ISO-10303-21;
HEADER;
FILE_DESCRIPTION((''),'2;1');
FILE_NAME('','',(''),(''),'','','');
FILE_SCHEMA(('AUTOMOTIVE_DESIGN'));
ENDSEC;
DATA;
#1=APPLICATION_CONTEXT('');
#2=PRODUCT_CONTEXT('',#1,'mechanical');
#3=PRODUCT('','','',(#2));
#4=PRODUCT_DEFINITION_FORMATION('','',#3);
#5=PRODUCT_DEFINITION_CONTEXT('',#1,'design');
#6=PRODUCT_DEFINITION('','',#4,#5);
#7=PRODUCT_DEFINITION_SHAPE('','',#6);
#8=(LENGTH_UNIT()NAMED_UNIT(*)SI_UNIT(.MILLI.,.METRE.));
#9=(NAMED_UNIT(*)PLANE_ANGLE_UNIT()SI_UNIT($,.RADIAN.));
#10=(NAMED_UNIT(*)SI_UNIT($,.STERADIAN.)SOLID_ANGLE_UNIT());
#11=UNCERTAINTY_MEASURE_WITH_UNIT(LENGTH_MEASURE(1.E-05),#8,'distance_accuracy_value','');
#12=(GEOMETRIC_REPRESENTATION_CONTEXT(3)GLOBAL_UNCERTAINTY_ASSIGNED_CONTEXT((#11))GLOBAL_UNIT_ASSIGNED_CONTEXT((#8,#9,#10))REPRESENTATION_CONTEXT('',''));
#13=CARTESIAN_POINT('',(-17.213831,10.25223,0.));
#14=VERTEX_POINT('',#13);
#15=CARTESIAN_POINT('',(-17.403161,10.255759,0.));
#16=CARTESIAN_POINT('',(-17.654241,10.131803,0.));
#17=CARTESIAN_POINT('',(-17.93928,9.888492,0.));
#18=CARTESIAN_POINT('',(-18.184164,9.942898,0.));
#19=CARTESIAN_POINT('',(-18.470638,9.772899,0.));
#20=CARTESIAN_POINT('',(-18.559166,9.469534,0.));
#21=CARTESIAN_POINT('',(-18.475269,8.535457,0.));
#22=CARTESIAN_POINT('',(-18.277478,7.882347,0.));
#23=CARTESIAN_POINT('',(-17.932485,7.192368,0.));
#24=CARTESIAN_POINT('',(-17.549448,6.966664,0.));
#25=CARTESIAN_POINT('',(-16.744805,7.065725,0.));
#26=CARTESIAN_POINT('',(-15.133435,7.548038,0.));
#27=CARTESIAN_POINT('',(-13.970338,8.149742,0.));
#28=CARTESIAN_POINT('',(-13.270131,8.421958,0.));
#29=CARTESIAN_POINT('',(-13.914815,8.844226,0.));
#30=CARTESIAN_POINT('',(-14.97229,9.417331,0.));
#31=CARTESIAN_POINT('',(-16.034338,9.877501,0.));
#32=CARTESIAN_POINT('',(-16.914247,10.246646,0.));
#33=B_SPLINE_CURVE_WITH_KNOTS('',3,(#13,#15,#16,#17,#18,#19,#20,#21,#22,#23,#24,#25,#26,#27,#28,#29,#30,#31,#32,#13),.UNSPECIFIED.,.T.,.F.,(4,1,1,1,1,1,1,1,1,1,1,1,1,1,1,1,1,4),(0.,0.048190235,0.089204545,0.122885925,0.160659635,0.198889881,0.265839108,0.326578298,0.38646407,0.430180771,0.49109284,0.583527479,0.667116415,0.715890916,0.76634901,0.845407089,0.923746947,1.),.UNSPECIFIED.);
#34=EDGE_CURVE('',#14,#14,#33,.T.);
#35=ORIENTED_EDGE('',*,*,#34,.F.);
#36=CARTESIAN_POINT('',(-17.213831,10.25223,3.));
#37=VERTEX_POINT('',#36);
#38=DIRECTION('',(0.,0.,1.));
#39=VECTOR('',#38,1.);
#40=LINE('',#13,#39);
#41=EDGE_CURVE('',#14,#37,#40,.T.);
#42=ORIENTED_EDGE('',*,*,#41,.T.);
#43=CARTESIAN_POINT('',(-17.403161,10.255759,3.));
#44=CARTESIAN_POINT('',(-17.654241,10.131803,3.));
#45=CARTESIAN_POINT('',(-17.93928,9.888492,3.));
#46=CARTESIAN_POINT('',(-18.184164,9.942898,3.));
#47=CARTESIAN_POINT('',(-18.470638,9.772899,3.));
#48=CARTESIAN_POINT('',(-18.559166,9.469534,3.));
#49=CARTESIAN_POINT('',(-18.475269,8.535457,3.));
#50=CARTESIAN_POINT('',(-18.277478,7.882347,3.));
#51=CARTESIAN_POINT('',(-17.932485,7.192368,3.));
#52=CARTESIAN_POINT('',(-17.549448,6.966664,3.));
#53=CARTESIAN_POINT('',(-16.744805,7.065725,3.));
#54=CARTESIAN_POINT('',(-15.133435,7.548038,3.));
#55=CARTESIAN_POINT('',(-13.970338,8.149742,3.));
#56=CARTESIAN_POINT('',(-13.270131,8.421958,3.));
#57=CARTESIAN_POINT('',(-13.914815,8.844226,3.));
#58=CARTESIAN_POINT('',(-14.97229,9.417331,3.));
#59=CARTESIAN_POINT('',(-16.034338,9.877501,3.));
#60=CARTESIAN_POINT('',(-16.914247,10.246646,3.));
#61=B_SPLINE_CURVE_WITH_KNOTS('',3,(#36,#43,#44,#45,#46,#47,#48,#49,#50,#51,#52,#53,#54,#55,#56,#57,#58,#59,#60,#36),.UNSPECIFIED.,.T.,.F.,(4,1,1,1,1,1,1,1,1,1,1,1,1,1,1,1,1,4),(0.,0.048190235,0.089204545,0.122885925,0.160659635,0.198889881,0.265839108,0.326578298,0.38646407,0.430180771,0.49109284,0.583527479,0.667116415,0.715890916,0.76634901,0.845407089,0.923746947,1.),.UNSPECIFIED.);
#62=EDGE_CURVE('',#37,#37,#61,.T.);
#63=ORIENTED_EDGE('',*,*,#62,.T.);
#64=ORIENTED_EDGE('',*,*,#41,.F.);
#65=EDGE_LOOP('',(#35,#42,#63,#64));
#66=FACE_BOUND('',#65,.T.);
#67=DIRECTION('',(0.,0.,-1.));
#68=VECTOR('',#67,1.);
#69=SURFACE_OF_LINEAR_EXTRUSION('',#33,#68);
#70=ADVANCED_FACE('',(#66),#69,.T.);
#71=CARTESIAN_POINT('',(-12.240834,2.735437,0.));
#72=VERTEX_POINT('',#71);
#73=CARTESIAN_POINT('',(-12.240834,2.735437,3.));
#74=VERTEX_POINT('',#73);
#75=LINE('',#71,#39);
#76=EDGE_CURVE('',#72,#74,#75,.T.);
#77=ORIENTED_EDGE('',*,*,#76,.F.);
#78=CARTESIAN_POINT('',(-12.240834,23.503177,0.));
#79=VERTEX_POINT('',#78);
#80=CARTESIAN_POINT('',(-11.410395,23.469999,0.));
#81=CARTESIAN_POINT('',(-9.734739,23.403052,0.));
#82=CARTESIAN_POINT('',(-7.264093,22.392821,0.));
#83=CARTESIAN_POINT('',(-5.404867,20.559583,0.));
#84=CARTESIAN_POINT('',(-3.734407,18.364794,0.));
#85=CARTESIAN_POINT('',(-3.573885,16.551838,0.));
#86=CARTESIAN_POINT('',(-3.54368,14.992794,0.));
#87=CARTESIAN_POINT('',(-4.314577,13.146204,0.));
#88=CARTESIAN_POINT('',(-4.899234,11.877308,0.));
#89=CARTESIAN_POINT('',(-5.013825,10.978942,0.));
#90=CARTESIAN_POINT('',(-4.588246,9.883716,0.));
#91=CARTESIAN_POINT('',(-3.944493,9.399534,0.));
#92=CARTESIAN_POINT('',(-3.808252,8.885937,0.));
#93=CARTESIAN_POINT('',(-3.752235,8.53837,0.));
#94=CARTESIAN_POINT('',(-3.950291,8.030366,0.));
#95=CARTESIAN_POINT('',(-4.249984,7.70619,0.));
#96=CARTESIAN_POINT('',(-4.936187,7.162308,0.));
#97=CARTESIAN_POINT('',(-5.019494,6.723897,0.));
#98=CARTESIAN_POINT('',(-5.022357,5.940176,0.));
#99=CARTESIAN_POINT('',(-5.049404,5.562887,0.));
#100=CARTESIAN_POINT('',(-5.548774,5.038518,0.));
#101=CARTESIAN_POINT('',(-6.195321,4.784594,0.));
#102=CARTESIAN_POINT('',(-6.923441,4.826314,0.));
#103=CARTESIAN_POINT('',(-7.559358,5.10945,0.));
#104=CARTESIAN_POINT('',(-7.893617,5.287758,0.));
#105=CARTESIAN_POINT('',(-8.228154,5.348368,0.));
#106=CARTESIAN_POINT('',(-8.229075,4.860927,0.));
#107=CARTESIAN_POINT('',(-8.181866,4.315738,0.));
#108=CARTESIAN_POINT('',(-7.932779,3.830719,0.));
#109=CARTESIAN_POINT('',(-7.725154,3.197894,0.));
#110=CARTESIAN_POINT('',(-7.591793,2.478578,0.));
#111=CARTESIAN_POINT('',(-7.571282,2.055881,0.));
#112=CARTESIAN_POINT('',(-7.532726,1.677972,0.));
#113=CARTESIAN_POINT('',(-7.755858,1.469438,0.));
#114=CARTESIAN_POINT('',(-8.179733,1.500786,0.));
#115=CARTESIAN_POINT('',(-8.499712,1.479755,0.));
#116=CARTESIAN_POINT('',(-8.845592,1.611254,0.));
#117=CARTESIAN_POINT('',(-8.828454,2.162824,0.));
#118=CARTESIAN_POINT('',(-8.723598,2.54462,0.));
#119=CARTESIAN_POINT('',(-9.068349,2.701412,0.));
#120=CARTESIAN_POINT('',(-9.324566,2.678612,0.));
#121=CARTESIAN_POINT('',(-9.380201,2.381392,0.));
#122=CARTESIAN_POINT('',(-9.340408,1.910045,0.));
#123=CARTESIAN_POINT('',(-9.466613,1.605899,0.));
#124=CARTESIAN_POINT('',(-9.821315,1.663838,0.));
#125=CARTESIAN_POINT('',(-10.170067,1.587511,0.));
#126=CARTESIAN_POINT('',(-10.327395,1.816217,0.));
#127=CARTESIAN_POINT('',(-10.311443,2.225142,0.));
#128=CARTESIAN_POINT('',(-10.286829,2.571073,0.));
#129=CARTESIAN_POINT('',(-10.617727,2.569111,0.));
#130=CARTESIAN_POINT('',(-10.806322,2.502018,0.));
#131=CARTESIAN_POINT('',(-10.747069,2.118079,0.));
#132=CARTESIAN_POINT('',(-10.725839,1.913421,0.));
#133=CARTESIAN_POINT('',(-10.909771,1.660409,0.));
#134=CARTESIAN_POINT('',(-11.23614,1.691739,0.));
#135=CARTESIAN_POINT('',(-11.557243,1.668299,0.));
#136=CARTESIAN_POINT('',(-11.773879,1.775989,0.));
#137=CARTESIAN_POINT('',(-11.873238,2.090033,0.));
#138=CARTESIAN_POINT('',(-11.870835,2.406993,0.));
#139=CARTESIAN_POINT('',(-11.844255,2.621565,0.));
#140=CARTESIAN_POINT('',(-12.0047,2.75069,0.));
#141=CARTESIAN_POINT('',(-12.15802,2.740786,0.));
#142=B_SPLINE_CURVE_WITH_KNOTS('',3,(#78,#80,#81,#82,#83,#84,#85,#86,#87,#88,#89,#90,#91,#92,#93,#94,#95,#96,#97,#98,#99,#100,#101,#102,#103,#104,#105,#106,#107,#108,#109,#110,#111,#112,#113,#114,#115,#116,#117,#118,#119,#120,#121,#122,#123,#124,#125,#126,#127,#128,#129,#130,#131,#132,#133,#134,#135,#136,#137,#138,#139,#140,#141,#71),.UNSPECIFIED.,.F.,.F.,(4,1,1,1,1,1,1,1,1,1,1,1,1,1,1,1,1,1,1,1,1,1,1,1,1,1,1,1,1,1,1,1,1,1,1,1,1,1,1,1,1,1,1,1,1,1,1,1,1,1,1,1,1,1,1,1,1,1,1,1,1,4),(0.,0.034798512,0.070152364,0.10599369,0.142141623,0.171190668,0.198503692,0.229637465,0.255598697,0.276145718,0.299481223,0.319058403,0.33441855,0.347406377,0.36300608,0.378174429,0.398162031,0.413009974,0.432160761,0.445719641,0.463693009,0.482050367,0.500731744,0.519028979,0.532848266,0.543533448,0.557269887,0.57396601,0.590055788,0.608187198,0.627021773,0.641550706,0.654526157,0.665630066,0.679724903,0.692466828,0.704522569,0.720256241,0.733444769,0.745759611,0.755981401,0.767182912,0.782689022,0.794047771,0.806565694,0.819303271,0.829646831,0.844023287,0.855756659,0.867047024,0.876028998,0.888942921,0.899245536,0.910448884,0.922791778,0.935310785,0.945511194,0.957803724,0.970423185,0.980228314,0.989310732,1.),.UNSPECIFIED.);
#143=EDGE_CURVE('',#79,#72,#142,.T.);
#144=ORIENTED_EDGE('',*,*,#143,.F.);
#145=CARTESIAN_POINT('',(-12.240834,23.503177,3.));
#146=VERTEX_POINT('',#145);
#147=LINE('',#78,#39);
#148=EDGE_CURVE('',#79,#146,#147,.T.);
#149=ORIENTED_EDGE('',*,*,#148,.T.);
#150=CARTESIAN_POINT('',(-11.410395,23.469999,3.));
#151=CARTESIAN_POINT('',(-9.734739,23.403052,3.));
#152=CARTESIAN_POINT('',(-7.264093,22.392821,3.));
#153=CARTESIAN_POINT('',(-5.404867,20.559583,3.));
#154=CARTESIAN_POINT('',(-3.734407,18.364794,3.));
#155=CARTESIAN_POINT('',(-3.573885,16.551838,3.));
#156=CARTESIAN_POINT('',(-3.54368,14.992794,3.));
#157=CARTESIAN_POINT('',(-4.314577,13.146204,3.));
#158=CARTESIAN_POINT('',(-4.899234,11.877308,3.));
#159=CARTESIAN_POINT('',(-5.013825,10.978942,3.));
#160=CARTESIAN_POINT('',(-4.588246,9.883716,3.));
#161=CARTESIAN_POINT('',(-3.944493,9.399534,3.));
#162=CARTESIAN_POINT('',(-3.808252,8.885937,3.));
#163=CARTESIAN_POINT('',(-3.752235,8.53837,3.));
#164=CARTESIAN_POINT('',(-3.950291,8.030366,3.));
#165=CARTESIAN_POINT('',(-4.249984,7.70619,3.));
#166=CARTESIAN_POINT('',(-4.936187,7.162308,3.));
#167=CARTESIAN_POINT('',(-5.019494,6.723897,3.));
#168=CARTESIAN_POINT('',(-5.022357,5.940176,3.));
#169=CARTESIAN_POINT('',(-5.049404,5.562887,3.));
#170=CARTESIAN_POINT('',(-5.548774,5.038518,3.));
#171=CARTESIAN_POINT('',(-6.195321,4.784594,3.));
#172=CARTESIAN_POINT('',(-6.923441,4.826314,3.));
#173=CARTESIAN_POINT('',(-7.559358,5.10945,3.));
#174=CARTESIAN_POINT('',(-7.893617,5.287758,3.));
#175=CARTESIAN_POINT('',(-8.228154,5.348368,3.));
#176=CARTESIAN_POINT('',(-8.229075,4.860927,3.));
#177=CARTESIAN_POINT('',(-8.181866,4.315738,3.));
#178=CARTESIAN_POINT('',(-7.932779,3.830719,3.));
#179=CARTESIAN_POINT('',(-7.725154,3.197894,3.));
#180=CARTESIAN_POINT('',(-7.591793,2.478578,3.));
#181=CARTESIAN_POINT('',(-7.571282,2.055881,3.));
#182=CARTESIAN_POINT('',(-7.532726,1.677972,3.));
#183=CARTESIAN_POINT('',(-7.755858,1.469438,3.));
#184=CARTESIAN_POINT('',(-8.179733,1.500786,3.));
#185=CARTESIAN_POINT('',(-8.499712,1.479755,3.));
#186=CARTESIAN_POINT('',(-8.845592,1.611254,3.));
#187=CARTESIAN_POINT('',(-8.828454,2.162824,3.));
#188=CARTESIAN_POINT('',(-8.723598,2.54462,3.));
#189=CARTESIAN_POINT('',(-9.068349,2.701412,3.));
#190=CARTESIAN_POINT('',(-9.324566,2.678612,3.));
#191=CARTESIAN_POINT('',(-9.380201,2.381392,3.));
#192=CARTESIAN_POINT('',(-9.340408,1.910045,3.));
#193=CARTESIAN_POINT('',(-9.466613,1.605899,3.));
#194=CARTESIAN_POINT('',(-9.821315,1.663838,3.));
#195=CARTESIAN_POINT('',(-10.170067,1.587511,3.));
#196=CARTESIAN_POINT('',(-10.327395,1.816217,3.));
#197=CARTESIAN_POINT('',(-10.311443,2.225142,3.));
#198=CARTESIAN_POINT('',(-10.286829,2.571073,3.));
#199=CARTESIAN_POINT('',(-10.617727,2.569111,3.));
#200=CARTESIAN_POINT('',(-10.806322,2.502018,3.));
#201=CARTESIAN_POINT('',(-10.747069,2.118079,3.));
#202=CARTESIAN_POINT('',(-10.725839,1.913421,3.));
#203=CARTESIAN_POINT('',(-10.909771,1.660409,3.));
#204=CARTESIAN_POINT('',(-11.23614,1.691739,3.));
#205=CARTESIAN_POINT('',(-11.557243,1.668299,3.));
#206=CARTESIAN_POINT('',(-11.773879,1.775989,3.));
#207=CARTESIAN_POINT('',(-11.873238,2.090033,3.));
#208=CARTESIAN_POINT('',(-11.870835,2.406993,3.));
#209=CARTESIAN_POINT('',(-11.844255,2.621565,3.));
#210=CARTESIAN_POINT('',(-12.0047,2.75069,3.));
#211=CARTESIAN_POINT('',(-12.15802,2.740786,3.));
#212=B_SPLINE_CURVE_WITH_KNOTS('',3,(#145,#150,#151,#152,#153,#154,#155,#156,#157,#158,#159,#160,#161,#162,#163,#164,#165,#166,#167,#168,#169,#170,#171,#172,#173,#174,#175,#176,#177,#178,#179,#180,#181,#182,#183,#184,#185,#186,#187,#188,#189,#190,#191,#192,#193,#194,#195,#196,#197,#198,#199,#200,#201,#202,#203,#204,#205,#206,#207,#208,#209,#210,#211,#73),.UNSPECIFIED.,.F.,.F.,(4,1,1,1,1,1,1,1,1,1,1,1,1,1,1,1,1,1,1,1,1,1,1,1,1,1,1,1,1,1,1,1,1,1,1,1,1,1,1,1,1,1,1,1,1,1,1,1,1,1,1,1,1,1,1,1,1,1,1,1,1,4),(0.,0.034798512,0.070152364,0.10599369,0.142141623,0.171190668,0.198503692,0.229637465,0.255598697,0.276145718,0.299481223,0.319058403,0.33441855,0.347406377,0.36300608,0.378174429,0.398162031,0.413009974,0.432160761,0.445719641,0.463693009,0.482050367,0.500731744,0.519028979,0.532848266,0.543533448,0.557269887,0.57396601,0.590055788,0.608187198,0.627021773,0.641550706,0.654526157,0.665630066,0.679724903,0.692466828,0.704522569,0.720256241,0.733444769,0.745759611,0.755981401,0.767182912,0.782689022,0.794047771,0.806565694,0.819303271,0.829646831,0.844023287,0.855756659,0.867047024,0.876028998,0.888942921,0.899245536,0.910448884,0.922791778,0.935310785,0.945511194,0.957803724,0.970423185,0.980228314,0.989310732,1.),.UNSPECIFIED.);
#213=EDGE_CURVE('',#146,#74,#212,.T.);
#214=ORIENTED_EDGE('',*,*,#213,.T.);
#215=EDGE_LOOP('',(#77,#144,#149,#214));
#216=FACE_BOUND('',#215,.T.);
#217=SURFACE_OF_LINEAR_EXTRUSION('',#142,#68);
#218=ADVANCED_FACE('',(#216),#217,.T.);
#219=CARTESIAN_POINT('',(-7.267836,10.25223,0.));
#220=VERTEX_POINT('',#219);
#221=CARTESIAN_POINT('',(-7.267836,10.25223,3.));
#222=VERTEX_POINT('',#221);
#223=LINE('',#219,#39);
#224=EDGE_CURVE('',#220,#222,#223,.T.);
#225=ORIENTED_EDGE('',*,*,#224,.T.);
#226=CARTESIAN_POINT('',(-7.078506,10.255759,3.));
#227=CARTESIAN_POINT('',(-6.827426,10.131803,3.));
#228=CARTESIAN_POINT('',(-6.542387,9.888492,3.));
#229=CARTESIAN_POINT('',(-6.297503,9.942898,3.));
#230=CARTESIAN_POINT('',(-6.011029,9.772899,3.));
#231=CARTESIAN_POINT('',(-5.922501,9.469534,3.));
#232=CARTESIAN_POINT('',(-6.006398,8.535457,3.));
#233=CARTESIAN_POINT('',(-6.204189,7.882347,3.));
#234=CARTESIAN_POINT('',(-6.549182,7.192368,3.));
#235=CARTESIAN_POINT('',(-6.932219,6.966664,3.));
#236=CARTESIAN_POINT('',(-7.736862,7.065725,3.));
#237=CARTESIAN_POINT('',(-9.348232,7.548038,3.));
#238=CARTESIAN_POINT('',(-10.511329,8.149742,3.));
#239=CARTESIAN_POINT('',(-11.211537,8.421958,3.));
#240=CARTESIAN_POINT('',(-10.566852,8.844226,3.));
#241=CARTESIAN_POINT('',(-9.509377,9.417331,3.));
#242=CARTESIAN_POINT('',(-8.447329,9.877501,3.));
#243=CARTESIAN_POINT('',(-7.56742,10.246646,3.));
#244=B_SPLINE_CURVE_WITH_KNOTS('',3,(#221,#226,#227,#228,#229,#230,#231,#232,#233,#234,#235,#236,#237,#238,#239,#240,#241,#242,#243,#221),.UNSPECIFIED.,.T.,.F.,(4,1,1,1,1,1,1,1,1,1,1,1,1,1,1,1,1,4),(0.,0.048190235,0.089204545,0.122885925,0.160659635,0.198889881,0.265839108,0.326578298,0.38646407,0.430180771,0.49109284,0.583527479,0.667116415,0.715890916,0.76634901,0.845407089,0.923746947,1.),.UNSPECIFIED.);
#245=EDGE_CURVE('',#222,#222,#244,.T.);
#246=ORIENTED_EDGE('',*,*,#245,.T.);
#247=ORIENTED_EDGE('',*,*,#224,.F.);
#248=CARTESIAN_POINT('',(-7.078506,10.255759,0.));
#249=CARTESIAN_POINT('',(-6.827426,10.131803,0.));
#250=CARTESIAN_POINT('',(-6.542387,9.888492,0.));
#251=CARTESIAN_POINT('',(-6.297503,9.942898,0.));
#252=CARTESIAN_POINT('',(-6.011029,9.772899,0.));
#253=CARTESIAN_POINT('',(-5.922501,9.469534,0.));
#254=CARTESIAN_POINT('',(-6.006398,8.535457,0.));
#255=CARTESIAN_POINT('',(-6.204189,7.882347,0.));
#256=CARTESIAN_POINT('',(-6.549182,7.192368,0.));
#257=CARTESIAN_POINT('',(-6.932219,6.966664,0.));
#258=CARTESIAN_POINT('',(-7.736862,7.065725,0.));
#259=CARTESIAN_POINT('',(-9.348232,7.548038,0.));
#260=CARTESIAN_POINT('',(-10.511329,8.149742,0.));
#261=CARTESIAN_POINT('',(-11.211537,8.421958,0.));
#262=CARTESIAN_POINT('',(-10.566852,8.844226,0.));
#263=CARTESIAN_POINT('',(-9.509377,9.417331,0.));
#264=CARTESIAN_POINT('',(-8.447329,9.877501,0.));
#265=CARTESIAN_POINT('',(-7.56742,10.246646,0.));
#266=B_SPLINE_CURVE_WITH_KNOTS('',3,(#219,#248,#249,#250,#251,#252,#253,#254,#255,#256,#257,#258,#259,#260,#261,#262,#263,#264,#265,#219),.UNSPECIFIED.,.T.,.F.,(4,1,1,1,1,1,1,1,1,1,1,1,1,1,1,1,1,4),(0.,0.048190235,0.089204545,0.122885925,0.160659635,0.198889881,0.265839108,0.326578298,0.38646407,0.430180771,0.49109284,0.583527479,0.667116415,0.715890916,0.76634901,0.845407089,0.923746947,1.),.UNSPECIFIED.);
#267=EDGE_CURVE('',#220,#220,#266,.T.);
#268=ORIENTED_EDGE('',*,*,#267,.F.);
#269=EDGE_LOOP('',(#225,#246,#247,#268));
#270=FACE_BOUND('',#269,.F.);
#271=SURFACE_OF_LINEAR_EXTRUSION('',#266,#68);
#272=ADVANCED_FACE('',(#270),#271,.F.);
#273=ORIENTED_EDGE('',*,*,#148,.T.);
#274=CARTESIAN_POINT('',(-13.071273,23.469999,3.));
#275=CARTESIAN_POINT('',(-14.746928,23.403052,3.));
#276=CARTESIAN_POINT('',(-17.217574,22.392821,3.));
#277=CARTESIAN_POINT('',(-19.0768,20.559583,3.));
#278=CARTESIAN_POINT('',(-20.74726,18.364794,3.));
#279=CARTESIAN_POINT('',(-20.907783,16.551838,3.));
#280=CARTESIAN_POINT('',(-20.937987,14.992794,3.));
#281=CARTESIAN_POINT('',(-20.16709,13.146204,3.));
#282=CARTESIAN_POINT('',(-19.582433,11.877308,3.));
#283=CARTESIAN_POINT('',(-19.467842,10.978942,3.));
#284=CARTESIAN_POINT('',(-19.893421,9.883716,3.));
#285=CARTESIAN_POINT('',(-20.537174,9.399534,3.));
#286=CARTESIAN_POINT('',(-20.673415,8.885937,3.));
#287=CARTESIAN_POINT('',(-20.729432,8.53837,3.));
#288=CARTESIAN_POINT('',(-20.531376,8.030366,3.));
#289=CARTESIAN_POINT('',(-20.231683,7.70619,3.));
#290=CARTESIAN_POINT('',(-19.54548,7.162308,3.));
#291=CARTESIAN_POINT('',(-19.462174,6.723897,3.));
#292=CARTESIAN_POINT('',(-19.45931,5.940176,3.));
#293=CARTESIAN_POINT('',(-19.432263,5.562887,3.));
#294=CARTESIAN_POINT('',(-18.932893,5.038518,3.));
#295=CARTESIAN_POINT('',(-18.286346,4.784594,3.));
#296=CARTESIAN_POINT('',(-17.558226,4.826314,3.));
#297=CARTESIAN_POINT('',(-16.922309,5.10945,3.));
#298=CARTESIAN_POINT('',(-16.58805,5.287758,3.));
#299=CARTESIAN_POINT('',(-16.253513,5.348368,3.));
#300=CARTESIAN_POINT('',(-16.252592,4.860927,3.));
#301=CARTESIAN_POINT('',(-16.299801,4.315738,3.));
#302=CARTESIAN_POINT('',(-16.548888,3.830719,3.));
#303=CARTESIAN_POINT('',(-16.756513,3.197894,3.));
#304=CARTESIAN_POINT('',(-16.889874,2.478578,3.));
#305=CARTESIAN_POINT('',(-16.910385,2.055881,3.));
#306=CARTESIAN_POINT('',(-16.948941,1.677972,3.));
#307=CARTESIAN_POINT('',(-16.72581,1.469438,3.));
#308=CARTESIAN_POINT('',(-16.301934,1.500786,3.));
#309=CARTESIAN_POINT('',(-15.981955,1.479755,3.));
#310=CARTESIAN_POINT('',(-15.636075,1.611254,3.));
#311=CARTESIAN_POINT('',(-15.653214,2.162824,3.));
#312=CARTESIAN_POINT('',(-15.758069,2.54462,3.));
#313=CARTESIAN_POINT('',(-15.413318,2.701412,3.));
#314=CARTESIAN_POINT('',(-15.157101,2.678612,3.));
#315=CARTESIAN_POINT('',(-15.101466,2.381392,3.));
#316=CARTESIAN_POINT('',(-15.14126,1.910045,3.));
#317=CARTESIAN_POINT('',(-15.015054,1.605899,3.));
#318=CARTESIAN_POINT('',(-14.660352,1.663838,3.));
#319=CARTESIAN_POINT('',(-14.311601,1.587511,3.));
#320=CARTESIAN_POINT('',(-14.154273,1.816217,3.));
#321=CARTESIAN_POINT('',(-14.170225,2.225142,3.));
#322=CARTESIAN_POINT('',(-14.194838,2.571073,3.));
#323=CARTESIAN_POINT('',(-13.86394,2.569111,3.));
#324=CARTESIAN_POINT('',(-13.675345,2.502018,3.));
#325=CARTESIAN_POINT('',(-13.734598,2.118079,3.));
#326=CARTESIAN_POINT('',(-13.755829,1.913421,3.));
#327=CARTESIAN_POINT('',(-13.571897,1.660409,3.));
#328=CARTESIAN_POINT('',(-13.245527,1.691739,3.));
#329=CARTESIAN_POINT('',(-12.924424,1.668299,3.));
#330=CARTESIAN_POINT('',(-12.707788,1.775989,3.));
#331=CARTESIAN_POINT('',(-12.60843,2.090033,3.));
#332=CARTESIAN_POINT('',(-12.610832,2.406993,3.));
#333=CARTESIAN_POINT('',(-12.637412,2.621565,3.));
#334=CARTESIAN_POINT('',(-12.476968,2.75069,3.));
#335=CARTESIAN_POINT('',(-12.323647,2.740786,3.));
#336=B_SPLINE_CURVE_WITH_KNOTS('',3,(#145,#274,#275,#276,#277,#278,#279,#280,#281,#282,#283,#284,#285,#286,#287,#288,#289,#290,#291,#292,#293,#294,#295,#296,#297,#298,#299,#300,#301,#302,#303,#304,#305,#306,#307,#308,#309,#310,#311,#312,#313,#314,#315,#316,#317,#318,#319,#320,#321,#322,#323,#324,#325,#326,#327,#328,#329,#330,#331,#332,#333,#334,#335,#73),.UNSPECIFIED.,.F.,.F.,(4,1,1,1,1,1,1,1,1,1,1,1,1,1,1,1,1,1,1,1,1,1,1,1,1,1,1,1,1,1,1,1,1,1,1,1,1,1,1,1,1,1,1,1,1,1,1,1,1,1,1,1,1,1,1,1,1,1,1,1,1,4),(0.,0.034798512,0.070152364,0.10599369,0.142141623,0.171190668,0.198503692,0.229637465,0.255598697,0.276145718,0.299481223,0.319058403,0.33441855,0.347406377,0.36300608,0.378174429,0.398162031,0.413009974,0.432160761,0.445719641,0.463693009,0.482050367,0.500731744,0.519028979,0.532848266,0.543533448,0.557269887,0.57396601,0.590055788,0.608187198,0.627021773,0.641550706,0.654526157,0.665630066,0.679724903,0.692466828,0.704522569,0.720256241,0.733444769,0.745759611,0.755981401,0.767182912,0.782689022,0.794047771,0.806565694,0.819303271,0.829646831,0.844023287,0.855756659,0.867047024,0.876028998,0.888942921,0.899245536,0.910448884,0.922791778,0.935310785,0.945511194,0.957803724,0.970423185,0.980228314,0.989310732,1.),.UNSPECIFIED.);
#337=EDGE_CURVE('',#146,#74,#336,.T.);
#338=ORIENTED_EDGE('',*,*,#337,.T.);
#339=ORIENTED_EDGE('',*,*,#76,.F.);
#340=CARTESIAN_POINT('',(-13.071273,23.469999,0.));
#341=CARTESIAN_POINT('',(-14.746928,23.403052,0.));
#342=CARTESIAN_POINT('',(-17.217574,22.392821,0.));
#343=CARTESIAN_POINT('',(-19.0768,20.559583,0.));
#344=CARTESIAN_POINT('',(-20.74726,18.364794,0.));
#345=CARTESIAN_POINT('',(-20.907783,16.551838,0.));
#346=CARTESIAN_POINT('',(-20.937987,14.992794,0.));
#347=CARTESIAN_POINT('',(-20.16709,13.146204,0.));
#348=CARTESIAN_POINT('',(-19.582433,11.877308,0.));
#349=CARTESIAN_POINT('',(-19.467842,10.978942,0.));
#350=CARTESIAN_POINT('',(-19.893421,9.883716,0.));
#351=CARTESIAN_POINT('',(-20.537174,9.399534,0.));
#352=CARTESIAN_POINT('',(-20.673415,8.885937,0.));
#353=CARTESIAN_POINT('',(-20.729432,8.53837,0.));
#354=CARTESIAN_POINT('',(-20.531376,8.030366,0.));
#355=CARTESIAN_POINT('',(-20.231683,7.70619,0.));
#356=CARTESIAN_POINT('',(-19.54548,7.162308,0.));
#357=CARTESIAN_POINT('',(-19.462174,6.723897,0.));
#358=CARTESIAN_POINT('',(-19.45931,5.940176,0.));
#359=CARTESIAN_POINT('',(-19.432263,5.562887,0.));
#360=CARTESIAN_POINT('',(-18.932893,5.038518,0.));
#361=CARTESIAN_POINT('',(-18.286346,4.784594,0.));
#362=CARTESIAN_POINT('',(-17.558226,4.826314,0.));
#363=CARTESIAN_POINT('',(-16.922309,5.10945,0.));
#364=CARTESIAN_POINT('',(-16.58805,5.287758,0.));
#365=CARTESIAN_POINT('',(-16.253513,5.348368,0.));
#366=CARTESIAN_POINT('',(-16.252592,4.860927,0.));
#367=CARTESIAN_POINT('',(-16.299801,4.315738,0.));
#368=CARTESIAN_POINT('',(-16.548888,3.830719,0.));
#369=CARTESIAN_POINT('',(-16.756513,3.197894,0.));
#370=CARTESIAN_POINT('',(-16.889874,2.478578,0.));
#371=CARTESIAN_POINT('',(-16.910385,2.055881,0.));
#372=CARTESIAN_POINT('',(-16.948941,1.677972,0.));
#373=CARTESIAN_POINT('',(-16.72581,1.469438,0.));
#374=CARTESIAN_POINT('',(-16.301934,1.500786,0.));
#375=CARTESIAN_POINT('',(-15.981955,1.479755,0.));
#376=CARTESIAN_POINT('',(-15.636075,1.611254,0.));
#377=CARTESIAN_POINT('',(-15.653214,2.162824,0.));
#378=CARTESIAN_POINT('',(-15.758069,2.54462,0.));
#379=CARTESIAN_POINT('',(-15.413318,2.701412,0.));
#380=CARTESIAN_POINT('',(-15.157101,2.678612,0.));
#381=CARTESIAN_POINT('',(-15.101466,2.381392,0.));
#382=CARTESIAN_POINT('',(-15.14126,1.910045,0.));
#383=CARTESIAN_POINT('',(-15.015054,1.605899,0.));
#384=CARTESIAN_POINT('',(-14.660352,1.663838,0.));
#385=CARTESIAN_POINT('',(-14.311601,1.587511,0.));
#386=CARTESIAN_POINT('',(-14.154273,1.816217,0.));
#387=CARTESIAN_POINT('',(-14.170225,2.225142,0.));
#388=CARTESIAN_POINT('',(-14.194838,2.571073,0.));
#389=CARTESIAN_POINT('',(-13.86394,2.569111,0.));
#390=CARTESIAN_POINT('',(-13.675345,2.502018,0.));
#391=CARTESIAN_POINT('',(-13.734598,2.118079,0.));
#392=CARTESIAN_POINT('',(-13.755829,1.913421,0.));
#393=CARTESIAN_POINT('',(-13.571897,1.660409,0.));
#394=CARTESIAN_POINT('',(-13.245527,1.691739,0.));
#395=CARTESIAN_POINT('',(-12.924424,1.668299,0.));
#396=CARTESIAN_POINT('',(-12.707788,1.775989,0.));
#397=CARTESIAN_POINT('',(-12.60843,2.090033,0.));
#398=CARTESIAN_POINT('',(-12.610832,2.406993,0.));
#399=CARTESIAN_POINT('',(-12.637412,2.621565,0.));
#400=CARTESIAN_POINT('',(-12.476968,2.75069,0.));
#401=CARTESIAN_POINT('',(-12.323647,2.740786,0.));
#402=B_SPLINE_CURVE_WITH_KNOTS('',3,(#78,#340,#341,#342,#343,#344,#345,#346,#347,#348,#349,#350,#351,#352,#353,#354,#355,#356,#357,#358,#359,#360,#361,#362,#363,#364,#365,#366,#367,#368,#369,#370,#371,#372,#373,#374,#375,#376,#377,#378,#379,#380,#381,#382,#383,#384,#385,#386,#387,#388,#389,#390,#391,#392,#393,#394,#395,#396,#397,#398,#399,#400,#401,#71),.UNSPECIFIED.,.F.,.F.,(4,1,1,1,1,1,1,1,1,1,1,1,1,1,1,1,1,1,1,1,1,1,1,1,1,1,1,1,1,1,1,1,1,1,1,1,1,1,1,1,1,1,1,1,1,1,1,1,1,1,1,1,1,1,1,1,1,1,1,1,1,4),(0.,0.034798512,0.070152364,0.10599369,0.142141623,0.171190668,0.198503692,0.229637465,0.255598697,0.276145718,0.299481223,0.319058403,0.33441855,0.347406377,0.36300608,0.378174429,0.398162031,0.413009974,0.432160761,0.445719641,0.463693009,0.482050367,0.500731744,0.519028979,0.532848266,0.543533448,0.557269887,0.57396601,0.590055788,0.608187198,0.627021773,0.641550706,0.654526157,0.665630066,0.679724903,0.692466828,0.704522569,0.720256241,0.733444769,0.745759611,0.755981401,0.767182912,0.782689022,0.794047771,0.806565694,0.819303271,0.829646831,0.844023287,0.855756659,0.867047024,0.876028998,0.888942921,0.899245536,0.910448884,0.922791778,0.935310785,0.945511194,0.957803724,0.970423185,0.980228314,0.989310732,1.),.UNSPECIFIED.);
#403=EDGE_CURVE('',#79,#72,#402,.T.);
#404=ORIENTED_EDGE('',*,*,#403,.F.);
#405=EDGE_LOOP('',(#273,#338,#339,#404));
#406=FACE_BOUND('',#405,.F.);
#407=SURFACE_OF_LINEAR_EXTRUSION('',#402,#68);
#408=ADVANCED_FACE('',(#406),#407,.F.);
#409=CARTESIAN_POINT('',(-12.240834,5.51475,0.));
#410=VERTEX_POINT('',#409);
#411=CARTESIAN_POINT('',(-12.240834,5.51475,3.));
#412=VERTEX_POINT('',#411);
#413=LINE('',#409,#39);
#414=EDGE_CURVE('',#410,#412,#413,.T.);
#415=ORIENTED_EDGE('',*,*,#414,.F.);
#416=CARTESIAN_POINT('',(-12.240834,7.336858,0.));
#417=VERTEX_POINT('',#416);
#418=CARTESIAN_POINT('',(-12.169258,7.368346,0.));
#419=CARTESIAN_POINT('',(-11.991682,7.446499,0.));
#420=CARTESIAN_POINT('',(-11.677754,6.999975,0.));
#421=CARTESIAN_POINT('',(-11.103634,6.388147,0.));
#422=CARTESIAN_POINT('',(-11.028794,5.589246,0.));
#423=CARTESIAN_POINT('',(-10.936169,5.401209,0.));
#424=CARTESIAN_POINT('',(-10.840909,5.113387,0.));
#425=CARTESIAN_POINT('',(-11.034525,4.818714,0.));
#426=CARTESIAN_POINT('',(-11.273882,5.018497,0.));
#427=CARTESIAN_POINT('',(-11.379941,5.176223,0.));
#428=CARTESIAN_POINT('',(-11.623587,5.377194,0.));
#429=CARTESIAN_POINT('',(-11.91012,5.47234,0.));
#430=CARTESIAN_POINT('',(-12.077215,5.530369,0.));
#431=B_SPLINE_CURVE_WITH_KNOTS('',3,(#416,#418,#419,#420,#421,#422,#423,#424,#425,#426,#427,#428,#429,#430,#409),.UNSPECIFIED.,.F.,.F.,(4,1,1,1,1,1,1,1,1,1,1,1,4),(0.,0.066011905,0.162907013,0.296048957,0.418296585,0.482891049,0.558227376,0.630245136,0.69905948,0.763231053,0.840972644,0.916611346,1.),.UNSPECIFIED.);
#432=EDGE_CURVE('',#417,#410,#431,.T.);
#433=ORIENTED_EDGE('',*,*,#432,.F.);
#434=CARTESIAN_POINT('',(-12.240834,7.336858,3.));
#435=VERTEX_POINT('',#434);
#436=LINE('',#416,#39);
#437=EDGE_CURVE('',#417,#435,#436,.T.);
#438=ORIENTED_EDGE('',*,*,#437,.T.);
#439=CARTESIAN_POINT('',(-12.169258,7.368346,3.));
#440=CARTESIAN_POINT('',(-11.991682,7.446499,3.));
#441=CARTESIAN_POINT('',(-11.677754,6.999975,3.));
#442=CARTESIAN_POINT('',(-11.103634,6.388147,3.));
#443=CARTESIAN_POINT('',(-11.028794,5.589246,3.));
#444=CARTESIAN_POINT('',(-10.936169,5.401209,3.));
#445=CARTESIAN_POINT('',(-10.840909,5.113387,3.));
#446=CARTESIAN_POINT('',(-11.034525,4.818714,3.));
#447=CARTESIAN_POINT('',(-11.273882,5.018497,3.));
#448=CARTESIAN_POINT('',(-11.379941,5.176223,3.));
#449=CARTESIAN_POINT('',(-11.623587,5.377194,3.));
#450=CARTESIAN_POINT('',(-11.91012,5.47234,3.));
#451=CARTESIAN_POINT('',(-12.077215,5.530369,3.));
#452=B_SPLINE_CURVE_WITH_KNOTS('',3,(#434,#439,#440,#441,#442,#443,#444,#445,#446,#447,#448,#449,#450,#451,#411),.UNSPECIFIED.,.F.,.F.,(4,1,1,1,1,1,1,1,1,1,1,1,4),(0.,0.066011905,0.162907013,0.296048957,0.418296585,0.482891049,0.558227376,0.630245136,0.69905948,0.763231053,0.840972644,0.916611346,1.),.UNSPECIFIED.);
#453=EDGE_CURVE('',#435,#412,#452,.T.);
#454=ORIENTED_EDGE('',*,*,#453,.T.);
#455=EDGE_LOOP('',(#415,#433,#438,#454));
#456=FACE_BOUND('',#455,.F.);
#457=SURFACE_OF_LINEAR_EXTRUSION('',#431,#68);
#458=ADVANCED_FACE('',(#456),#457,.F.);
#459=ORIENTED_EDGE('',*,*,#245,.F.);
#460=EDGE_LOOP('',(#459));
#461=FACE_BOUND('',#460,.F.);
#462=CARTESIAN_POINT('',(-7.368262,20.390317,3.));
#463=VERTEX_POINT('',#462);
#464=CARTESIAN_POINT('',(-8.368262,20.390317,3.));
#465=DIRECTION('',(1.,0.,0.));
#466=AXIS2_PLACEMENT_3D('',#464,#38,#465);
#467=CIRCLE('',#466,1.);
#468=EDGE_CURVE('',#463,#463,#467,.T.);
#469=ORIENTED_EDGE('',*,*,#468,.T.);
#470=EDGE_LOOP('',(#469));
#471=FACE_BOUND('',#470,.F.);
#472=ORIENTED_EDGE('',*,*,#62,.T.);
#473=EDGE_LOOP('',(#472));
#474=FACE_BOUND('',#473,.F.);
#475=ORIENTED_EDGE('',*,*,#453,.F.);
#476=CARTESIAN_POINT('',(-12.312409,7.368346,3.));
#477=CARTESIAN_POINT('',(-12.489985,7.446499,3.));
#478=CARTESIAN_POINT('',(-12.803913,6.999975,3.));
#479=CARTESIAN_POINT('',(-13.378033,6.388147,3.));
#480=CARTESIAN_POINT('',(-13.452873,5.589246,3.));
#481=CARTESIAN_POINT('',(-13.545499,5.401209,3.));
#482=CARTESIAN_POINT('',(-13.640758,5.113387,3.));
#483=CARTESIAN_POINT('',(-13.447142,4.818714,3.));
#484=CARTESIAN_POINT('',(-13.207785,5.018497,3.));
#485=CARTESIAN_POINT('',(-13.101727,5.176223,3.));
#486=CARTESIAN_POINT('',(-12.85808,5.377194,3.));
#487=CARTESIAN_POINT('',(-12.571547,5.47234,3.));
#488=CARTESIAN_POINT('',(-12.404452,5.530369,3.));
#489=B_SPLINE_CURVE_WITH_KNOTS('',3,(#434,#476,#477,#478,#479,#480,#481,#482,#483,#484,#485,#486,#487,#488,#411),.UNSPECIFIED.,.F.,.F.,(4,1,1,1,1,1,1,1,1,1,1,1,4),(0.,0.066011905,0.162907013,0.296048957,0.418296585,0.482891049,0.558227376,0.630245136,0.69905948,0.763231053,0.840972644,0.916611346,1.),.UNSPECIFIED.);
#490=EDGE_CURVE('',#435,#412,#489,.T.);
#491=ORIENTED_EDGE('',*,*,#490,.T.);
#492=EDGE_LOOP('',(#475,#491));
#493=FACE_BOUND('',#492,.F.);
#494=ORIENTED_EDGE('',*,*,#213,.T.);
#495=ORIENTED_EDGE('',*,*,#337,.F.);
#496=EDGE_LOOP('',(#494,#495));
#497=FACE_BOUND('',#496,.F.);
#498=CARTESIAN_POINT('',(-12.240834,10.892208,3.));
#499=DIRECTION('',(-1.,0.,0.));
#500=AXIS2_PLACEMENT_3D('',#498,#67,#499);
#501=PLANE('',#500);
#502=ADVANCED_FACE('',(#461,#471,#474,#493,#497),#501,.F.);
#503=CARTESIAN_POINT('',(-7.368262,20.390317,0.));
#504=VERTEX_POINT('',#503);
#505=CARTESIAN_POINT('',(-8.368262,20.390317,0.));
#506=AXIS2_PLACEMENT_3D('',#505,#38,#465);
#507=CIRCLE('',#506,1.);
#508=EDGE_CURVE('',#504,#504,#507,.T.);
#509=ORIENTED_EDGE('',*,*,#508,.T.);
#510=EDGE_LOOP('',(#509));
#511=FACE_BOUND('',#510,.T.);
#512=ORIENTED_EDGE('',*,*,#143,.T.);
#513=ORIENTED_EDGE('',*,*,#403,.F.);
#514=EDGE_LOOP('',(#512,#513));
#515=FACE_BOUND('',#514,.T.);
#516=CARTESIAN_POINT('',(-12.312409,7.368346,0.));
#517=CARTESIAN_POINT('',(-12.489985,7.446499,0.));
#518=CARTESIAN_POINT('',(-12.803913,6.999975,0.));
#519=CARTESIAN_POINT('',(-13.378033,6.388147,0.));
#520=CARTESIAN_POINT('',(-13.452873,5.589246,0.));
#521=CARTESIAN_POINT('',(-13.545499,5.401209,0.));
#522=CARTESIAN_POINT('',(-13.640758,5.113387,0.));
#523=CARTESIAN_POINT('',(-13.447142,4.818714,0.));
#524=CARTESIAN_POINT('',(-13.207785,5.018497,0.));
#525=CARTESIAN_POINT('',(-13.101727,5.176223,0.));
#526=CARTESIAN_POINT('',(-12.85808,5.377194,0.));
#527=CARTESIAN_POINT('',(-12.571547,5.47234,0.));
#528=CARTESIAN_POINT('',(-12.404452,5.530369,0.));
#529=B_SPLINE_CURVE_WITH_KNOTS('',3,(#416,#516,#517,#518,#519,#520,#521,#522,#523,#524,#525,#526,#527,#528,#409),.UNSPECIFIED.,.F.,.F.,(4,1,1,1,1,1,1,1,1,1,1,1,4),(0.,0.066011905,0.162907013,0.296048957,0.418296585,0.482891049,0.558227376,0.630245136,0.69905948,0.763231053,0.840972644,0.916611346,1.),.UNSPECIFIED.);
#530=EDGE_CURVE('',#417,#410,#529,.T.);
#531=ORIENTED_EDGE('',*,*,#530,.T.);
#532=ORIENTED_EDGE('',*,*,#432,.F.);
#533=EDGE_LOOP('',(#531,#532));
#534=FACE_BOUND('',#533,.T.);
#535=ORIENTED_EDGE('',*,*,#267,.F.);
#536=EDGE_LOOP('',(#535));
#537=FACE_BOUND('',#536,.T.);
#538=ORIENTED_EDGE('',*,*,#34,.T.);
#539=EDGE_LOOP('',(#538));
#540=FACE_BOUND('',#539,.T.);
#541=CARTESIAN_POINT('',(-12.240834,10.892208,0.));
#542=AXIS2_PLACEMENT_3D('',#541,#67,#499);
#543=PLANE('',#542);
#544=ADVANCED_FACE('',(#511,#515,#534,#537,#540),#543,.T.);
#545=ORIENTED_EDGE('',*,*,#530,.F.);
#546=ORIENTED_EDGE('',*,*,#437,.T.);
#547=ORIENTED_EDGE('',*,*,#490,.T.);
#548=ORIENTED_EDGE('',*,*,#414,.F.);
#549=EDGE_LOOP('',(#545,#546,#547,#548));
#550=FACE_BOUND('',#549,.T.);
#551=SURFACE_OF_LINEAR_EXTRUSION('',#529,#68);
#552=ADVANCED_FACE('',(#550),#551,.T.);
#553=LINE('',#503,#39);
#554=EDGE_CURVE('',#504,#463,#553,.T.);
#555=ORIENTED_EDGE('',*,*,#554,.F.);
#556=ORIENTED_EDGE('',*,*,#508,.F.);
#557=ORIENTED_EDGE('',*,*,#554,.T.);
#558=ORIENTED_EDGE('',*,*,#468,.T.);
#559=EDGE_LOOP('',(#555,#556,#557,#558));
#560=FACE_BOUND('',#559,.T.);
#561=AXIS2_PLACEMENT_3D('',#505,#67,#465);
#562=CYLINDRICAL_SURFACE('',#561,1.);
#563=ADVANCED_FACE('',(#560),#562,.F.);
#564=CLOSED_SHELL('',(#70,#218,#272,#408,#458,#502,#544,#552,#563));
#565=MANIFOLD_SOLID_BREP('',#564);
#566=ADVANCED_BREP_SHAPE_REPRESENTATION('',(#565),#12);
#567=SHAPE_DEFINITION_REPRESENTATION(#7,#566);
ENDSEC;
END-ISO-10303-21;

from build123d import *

# Parameters (mm, degrees)
F0_R     = 1
F1_DEPTH = 3


with BuildPart() as f1:
    # F0 (on Top) → F1 (new body)
    with BuildSketch(Plane.XY):
        with BuildLine():
            add(Edge.make_bspline(
                [(-12.2408336028, 23.503176868), (-11.4103945755, 23.4699987669), (-9.7347391672, 23.4030521727), (-7.264092826, 22.3928211933), (-5.4048672411, 20.5595833706), (-3.7344067316, 18.3647939232), (-3.573884551, 16.5518379289), (-3.5436797426, 14.9927936331), (-4.3145768781, 13.1462043906), (-4.8992338903, 11.8773081899), (-5.0138249848, 10.9789423325), (-4.5882463348, 9.8837158669), (-3.9444933397, 9.3995340535), (-3.8082519247, 8.8859373116), (-3.7522349987, 8.5383697091), (-3.9502914121, 8.0303656315), (-4.2499839526, 7.7061902572), (-4.936186847, 7.1623075457), (-5.0194935775, 6.7238970438), (-5.0223568546, 5.9401759747), (-5.0494039457, 5.5628870362), (-5.5487741256, 5.0385178988), (-6.1953214864, 4.784593976), (-6.9234407336, 4.8263136332), (-7.5593584564, 5.1094497553), (-7.8936167216, 5.2877581346), (-8.2281539466, 5.3483678422), (-8.2290751173, 4.8609269738), (-8.181865829, 4.3157382137), (-7.9327788892, 3.8307192173), (-7.7251537907, 3.1978938481), (-7.5917927758, 2.4785776524), (-7.5712822642, 2.0558808672), (-7.5327259701, 1.67797195), (-7.7558575145, 1.4694384501), (-8.1797331198, 1.5007855316), (-8.4997121561, 1.4797550624), (-8.8455921112, 1.6112543965), (-8.8284536186, 2.1628243112), (-8.723597896, 2.5446197001), (-9.0683491592, 2.7014116418), (-9.324565824, 2.6786124177), (-9.3802011753, 2.3813917657), (-9.3404075794, 1.910044513), (-9.4666134541, 1.605899007), (-9.8213151988, 1.6638375431), (-10.1700666553, 1.5875112978), (-10.3273946144, 1.8162166534), (-10.3114425118, 2.2251423511), (-10.2868292916, 2.5710730463), (-10.6177271301, 2.5691114393), (-10.806322149, 2.5020179392), (-10.7470690626, 2.1180790134), (-10.725838652, 1.91342136), (-10.9097706094, 1.6604091412), (-11.2361397619, 1.6917391152), (-11.5572433347, 1.6682988011), (-11.7738789571, 1.7759885742), (-11.8732375358, 2.0900331738), (-11.870835306, 2.4069932209), (-11.8442552434, 2.6215654496), (-12.0046996371, 2.7506900903), (-12.1580197149, 2.7407864035), (-12.2408336028, 2.7354371268)],
                knots=[0, 0, 0, 0, 0.034798512, 0.0701523639, 0.1059936901, 0.1421416225, 0.1711906677, 0.1985036922, 0.2296374652, 0.2555986967, 0.276145718, 0.2994812234, 0.3190584032, 0.3344185498, 0.3474063767, 0.3630060795, 0.3781744286, 0.3981620314, 0.4130099736, 0.4321607614, 0.4457196409, 0.4636930091, 0.4820503674, 0.5007317439, 0.519028979, 0.5328482662, 0.5435334479, 0.5572698867, 0.5739660097, 0.5900557878, 0.6081871977, 0.627021773, 0.6415507058, 0.6545261572, 0.6656300661, 0.6797249028, 0.6924668283, 0.7045225687, 0.7202562413, 0.733444769, 0.7457596114, 0.7559814006, 0.7671829121, 0.7826890223, 0.7940477711, 0.806565694, 0.8193032714, 0.8296468308, 0.8440232875, 0.8557566587, 0.8670470243, 0.8760289978, 0.8889429215, 0.8992455358, 0.9104488838, 0.9227917778, 0.9353107853, 0.9455111939, 0.9578037236, 0.9704231852, 0.9802283138, 0.9893107323, 1, 1, 1, 1], degree=3))
            add(Edge.make_bspline(
                [(-12.2408336028, 23.503176868), (-13.0712726302, 23.4699987669), (-14.7469280385, 23.4030521727), (-17.2175743797, 22.3928211933), (-19.0767999646, 20.5595833706), (-20.7472604741, 18.3647939232), (-20.9077826547, 16.5518379289), (-20.9379874631, 14.9927936331), (-20.1670903276, 13.1462043906), (-19.5824333153, 11.8773081899), (-19.4678422209, 10.9789423325), (-19.8934208708, 9.8837158669), (-20.537173866, 9.3995340535), (-20.673415281, 8.8859373116), (-20.7294322069, 8.5383697091), (-20.5313757936, 8.0303656315), (-20.2316832531, 7.7061902572), (-19.5454803587, 7.1623075457), (-19.4621736282, 6.7238970438), (-19.4593103511, 5.9401759747), (-19.43226326, 5.5628870362), (-18.9328930801, 5.0385178988), (-18.2863457193, 4.784593976), (-17.5582264721, 4.8263136332), (-16.9223087493, 5.1094497553), (-16.5880504841, 5.2877581346), (-16.2535132591, 5.3483678422), (-16.2525920884, 4.8609269738), (-16.2998013767, 4.3157382137), (-16.5488883165, 3.8307192173), (-16.756513415, 3.1978938481), (-16.8898744299, 2.4785776524), (-16.9103849415, 2.0558808672), (-16.9489412356, 1.67797195), (-16.7258096912, 1.4694384501), (-16.3019340859, 1.5007855316), (-15.9819550496, 1.4797550624), (-15.6360750945, 1.6112543965), (-15.6532135871, 2.1628243112), (-15.7580693097, 2.5446197001), (-15.4133180464, 2.7014116418), (-15.1571013817, 2.6786124177), (-15.1014660304, 2.3813917657), (-15.1412596263, 1.910044513), (-15.0150537516, 1.605899007), (-14.6603520069, 1.6638375431), (-14.3116005504, 1.5875112978), (-14.1542725912, 1.8162166534), (-14.1702246939, 2.2251423511), (-14.1948379141, 2.5710730463), (-13.8639400756, 2.5691114393), (-13.6753450566, 2.5020179392), (-13.7345981431, 2.1180790134), (-13.7558285537, 1.91342136), (-13.5718965963, 1.6604091412), (-13.2455274438, 1.6917391152), (-12.924423871, 1.6682988011), (-12.7077882486, 1.7759885742), (-12.6084296699, 2.0900331738), (-12.6108318997, 2.4069932209), (-12.6374119623, 2.6215654496), (-12.4769675686, 2.7506900903), (-12.3236474908, 2.7407864035), (-12.2408336028, 2.7354371268)],
                knots=[0, 0, 0, 0, 0.034798512, 0.0701523639, 0.1059936901, 0.1421416225, 0.1711906677, 0.1985036922, 0.2296374652, 0.2555986967, 0.276145718, 0.2994812234, 0.3190584032, 0.3344185498, 0.3474063767, 0.3630060795, 0.3781744286, 0.3981620314, 0.4130099736, 0.4321607614, 0.4457196409, 0.4636930091, 0.4820503674, 0.5007317439, 0.519028979, 0.5328482662, 0.5435334479, 0.5572698867, 0.5739660097, 0.5900557878, 0.6081871977, 0.627021773, 0.6415507058, 0.6545261572, 0.6656300661, 0.6797249028, 0.6924668283, 0.7045225687, 0.7202562413, 0.733444769, 0.7457596114, 0.7559814006, 0.7671829121, 0.7826890223, 0.7940477711, 0.806565694, 0.8193032714, 0.8296468308, 0.8440232875, 0.8557566587, 0.8670470243, 0.8760289978, 0.8889429215, 0.8992455358, 0.9104488838, 0.9227917778, 0.9353107853, 0.9455111939, 0.9578037236, 0.9704231852, 0.9802283138, 0.9893107323, 1, 1, 1, 1], degree=3))
        make_face()
        with BuildLine():
            add(Edge.make_bspline(
                [(-12.2408336028, 7.3368577287), (-12.312408824, 7.3683461244), (-12.4899849679, 7.4464990356), (-12.8039132135, 6.999974864), (-13.3780327213, 6.3881470951), (-13.4528731388, 5.5892458806), (-13.5454985714, 5.4012085109), (-13.6407577801, 5.1133868587), (-13.4471420183, 4.8187136976), (-13.2077852993, 5.0184971863), (-13.1017266106, 5.1762228338), (-12.8580801773, 5.3771935142), (-12.5715474903, 5.4723404734), (-12.404452078, 5.5303685367), (-12.2408336028, 5.5147502571)],
                knots=[0, 0, 0, 0, 0.0660119047, 0.162907013, 0.2960489573, 0.4182965845, 0.482891049, 0.5582273762, 0.6302451358, 0.6990594804, 0.7632310531, 0.8409726444, 0.9166113455, 1, 1, 1, 1], degree=3))
            add(Edge.make_bspline(
                [(-12.2408336028, 7.3368577287), (-12.1692583817, 7.3683461244), (-11.9916822378, 7.4464990356), (-11.6777539922, 6.999974864), (-11.1036344843, 6.3881470951), (-11.0287940669, 5.5892458806), (-10.9361686343, 5.4012085109), (-10.8409094256, 5.1133868587), (-11.0345251874, 4.8187136976), (-11.2738819064, 5.0184971863), (-11.3799405951, 5.1762228338), (-11.6235870284, 5.3771935142), (-11.9101197154, 5.4723404734), (-12.0772151276, 5.5303685367), (-12.2408336028, 5.5147502571)],
                knots=[0, 0, 0, 0, 0.0660119047, 0.162907013, 0.2960489573, 0.4182965845, 0.482891049, 0.5582273762, 0.6302451358, 0.6990594804, 0.7632310531, 0.8409726444, 0.9166113455, 1, 1, 1, 1], degree=3))
        make_face(mode=Mode.SUBTRACT)
        with BuildLine():
            add(Edge.make_bspline(
                [(-17.2138307244, 10.2522298694), (-17.4031610207, 10.2557585841), (-17.6542407662, 10.1318028159), (-17.9392800945, 9.8884920101), (-18.1841641387, 9.9428981819), (-18.4706381166, 9.77289919), (-18.5591664534, 9.4695336747), (-18.4752691781, 8.5354566549), (-18.2774778446, 7.8823468315), (-17.9324848586, 7.1923683556), (-17.5494481643, 6.9666637141), (-16.7448049816, 7.0657248567), (-15.1334351749, 7.5480378487), (-13.9703378568, 8.1497418425), (-13.2701306534, 8.4219577753), (-13.9148151836, 8.8442261757), (-14.9722900275, 9.4173310109), (-16.0343378856, 9.8775013921), (-16.9142469374, 10.2466462637), (-17.2138307244, 10.2522298694)],
                knots=[0, 0, 0, 0, 0.0481902348, 0.0892045449, 0.1228859253, 0.1606596348, 0.1988898811, 0.2658391081, 0.3265782983, 0.3864640697, 0.4301807708, 0.4910928402, 0.5835274793, 0.6671164148, 0.715890916, 0.7663490101, 0.845407089, 0.9237469475, 1, 1, 1, 1], degree=3))
        make_face(mode=Mode.SUBTRACT)
        with BuildLine():
            add(Edge.make_bspline(
                [(-7.2678364813, 10.2522298694), (-7.078506185, 10.2557585841), (-6.8274264395, 10.1318028159), (-6.5423871112, 9.8884920101), (-6.297503067, 9.9428981819), (-6.0110290891, 9.77289919), (-5.9225007523, 9.4695336747), (-6.0063980276, 8.5354566549), (-6.2041893611, 7.8823468315), (-6.5491823471, 7.1923683556), (-6.9322190414, 6.9666637141), (-7.7368622241, 7.0657248567), (-9.3482320307, 7.5480378487), (-10.5113293489, 8.1497418425), (-11.2115365523, 8.4219577753), (-10.566852022, 8.8442261757), (-9.5093771782, 9.4173310109), (-8.4473293201, 9.8775013921), (-7.5674202683, 10.2466462637), (-7.2678364813, 10.2522298694)],
                knots=[0, 0, 0, 0, 0.0481902348, 0.0892045449, 0.1228859253, 0.1606596348, 0.1988898811, 0.2658391081, 0.3265782983, 0.3864640697, 0.4301807708, 0.4910928402, 0.5835274793, 0.6671164148, 0.715890916, 0.7663490101, 0.845407089, 0.9237469475, 1, 1, 1, 1], degree=3))
        make_face(mode=Mode.SUBTRACT)
        with Locations((-8.3682620898, 20.390316844)):
            Circle(F0_R, mode=Mode.SUBTRACT)
    extrude(amount=F1_DEPTH)


solid = f1.part
